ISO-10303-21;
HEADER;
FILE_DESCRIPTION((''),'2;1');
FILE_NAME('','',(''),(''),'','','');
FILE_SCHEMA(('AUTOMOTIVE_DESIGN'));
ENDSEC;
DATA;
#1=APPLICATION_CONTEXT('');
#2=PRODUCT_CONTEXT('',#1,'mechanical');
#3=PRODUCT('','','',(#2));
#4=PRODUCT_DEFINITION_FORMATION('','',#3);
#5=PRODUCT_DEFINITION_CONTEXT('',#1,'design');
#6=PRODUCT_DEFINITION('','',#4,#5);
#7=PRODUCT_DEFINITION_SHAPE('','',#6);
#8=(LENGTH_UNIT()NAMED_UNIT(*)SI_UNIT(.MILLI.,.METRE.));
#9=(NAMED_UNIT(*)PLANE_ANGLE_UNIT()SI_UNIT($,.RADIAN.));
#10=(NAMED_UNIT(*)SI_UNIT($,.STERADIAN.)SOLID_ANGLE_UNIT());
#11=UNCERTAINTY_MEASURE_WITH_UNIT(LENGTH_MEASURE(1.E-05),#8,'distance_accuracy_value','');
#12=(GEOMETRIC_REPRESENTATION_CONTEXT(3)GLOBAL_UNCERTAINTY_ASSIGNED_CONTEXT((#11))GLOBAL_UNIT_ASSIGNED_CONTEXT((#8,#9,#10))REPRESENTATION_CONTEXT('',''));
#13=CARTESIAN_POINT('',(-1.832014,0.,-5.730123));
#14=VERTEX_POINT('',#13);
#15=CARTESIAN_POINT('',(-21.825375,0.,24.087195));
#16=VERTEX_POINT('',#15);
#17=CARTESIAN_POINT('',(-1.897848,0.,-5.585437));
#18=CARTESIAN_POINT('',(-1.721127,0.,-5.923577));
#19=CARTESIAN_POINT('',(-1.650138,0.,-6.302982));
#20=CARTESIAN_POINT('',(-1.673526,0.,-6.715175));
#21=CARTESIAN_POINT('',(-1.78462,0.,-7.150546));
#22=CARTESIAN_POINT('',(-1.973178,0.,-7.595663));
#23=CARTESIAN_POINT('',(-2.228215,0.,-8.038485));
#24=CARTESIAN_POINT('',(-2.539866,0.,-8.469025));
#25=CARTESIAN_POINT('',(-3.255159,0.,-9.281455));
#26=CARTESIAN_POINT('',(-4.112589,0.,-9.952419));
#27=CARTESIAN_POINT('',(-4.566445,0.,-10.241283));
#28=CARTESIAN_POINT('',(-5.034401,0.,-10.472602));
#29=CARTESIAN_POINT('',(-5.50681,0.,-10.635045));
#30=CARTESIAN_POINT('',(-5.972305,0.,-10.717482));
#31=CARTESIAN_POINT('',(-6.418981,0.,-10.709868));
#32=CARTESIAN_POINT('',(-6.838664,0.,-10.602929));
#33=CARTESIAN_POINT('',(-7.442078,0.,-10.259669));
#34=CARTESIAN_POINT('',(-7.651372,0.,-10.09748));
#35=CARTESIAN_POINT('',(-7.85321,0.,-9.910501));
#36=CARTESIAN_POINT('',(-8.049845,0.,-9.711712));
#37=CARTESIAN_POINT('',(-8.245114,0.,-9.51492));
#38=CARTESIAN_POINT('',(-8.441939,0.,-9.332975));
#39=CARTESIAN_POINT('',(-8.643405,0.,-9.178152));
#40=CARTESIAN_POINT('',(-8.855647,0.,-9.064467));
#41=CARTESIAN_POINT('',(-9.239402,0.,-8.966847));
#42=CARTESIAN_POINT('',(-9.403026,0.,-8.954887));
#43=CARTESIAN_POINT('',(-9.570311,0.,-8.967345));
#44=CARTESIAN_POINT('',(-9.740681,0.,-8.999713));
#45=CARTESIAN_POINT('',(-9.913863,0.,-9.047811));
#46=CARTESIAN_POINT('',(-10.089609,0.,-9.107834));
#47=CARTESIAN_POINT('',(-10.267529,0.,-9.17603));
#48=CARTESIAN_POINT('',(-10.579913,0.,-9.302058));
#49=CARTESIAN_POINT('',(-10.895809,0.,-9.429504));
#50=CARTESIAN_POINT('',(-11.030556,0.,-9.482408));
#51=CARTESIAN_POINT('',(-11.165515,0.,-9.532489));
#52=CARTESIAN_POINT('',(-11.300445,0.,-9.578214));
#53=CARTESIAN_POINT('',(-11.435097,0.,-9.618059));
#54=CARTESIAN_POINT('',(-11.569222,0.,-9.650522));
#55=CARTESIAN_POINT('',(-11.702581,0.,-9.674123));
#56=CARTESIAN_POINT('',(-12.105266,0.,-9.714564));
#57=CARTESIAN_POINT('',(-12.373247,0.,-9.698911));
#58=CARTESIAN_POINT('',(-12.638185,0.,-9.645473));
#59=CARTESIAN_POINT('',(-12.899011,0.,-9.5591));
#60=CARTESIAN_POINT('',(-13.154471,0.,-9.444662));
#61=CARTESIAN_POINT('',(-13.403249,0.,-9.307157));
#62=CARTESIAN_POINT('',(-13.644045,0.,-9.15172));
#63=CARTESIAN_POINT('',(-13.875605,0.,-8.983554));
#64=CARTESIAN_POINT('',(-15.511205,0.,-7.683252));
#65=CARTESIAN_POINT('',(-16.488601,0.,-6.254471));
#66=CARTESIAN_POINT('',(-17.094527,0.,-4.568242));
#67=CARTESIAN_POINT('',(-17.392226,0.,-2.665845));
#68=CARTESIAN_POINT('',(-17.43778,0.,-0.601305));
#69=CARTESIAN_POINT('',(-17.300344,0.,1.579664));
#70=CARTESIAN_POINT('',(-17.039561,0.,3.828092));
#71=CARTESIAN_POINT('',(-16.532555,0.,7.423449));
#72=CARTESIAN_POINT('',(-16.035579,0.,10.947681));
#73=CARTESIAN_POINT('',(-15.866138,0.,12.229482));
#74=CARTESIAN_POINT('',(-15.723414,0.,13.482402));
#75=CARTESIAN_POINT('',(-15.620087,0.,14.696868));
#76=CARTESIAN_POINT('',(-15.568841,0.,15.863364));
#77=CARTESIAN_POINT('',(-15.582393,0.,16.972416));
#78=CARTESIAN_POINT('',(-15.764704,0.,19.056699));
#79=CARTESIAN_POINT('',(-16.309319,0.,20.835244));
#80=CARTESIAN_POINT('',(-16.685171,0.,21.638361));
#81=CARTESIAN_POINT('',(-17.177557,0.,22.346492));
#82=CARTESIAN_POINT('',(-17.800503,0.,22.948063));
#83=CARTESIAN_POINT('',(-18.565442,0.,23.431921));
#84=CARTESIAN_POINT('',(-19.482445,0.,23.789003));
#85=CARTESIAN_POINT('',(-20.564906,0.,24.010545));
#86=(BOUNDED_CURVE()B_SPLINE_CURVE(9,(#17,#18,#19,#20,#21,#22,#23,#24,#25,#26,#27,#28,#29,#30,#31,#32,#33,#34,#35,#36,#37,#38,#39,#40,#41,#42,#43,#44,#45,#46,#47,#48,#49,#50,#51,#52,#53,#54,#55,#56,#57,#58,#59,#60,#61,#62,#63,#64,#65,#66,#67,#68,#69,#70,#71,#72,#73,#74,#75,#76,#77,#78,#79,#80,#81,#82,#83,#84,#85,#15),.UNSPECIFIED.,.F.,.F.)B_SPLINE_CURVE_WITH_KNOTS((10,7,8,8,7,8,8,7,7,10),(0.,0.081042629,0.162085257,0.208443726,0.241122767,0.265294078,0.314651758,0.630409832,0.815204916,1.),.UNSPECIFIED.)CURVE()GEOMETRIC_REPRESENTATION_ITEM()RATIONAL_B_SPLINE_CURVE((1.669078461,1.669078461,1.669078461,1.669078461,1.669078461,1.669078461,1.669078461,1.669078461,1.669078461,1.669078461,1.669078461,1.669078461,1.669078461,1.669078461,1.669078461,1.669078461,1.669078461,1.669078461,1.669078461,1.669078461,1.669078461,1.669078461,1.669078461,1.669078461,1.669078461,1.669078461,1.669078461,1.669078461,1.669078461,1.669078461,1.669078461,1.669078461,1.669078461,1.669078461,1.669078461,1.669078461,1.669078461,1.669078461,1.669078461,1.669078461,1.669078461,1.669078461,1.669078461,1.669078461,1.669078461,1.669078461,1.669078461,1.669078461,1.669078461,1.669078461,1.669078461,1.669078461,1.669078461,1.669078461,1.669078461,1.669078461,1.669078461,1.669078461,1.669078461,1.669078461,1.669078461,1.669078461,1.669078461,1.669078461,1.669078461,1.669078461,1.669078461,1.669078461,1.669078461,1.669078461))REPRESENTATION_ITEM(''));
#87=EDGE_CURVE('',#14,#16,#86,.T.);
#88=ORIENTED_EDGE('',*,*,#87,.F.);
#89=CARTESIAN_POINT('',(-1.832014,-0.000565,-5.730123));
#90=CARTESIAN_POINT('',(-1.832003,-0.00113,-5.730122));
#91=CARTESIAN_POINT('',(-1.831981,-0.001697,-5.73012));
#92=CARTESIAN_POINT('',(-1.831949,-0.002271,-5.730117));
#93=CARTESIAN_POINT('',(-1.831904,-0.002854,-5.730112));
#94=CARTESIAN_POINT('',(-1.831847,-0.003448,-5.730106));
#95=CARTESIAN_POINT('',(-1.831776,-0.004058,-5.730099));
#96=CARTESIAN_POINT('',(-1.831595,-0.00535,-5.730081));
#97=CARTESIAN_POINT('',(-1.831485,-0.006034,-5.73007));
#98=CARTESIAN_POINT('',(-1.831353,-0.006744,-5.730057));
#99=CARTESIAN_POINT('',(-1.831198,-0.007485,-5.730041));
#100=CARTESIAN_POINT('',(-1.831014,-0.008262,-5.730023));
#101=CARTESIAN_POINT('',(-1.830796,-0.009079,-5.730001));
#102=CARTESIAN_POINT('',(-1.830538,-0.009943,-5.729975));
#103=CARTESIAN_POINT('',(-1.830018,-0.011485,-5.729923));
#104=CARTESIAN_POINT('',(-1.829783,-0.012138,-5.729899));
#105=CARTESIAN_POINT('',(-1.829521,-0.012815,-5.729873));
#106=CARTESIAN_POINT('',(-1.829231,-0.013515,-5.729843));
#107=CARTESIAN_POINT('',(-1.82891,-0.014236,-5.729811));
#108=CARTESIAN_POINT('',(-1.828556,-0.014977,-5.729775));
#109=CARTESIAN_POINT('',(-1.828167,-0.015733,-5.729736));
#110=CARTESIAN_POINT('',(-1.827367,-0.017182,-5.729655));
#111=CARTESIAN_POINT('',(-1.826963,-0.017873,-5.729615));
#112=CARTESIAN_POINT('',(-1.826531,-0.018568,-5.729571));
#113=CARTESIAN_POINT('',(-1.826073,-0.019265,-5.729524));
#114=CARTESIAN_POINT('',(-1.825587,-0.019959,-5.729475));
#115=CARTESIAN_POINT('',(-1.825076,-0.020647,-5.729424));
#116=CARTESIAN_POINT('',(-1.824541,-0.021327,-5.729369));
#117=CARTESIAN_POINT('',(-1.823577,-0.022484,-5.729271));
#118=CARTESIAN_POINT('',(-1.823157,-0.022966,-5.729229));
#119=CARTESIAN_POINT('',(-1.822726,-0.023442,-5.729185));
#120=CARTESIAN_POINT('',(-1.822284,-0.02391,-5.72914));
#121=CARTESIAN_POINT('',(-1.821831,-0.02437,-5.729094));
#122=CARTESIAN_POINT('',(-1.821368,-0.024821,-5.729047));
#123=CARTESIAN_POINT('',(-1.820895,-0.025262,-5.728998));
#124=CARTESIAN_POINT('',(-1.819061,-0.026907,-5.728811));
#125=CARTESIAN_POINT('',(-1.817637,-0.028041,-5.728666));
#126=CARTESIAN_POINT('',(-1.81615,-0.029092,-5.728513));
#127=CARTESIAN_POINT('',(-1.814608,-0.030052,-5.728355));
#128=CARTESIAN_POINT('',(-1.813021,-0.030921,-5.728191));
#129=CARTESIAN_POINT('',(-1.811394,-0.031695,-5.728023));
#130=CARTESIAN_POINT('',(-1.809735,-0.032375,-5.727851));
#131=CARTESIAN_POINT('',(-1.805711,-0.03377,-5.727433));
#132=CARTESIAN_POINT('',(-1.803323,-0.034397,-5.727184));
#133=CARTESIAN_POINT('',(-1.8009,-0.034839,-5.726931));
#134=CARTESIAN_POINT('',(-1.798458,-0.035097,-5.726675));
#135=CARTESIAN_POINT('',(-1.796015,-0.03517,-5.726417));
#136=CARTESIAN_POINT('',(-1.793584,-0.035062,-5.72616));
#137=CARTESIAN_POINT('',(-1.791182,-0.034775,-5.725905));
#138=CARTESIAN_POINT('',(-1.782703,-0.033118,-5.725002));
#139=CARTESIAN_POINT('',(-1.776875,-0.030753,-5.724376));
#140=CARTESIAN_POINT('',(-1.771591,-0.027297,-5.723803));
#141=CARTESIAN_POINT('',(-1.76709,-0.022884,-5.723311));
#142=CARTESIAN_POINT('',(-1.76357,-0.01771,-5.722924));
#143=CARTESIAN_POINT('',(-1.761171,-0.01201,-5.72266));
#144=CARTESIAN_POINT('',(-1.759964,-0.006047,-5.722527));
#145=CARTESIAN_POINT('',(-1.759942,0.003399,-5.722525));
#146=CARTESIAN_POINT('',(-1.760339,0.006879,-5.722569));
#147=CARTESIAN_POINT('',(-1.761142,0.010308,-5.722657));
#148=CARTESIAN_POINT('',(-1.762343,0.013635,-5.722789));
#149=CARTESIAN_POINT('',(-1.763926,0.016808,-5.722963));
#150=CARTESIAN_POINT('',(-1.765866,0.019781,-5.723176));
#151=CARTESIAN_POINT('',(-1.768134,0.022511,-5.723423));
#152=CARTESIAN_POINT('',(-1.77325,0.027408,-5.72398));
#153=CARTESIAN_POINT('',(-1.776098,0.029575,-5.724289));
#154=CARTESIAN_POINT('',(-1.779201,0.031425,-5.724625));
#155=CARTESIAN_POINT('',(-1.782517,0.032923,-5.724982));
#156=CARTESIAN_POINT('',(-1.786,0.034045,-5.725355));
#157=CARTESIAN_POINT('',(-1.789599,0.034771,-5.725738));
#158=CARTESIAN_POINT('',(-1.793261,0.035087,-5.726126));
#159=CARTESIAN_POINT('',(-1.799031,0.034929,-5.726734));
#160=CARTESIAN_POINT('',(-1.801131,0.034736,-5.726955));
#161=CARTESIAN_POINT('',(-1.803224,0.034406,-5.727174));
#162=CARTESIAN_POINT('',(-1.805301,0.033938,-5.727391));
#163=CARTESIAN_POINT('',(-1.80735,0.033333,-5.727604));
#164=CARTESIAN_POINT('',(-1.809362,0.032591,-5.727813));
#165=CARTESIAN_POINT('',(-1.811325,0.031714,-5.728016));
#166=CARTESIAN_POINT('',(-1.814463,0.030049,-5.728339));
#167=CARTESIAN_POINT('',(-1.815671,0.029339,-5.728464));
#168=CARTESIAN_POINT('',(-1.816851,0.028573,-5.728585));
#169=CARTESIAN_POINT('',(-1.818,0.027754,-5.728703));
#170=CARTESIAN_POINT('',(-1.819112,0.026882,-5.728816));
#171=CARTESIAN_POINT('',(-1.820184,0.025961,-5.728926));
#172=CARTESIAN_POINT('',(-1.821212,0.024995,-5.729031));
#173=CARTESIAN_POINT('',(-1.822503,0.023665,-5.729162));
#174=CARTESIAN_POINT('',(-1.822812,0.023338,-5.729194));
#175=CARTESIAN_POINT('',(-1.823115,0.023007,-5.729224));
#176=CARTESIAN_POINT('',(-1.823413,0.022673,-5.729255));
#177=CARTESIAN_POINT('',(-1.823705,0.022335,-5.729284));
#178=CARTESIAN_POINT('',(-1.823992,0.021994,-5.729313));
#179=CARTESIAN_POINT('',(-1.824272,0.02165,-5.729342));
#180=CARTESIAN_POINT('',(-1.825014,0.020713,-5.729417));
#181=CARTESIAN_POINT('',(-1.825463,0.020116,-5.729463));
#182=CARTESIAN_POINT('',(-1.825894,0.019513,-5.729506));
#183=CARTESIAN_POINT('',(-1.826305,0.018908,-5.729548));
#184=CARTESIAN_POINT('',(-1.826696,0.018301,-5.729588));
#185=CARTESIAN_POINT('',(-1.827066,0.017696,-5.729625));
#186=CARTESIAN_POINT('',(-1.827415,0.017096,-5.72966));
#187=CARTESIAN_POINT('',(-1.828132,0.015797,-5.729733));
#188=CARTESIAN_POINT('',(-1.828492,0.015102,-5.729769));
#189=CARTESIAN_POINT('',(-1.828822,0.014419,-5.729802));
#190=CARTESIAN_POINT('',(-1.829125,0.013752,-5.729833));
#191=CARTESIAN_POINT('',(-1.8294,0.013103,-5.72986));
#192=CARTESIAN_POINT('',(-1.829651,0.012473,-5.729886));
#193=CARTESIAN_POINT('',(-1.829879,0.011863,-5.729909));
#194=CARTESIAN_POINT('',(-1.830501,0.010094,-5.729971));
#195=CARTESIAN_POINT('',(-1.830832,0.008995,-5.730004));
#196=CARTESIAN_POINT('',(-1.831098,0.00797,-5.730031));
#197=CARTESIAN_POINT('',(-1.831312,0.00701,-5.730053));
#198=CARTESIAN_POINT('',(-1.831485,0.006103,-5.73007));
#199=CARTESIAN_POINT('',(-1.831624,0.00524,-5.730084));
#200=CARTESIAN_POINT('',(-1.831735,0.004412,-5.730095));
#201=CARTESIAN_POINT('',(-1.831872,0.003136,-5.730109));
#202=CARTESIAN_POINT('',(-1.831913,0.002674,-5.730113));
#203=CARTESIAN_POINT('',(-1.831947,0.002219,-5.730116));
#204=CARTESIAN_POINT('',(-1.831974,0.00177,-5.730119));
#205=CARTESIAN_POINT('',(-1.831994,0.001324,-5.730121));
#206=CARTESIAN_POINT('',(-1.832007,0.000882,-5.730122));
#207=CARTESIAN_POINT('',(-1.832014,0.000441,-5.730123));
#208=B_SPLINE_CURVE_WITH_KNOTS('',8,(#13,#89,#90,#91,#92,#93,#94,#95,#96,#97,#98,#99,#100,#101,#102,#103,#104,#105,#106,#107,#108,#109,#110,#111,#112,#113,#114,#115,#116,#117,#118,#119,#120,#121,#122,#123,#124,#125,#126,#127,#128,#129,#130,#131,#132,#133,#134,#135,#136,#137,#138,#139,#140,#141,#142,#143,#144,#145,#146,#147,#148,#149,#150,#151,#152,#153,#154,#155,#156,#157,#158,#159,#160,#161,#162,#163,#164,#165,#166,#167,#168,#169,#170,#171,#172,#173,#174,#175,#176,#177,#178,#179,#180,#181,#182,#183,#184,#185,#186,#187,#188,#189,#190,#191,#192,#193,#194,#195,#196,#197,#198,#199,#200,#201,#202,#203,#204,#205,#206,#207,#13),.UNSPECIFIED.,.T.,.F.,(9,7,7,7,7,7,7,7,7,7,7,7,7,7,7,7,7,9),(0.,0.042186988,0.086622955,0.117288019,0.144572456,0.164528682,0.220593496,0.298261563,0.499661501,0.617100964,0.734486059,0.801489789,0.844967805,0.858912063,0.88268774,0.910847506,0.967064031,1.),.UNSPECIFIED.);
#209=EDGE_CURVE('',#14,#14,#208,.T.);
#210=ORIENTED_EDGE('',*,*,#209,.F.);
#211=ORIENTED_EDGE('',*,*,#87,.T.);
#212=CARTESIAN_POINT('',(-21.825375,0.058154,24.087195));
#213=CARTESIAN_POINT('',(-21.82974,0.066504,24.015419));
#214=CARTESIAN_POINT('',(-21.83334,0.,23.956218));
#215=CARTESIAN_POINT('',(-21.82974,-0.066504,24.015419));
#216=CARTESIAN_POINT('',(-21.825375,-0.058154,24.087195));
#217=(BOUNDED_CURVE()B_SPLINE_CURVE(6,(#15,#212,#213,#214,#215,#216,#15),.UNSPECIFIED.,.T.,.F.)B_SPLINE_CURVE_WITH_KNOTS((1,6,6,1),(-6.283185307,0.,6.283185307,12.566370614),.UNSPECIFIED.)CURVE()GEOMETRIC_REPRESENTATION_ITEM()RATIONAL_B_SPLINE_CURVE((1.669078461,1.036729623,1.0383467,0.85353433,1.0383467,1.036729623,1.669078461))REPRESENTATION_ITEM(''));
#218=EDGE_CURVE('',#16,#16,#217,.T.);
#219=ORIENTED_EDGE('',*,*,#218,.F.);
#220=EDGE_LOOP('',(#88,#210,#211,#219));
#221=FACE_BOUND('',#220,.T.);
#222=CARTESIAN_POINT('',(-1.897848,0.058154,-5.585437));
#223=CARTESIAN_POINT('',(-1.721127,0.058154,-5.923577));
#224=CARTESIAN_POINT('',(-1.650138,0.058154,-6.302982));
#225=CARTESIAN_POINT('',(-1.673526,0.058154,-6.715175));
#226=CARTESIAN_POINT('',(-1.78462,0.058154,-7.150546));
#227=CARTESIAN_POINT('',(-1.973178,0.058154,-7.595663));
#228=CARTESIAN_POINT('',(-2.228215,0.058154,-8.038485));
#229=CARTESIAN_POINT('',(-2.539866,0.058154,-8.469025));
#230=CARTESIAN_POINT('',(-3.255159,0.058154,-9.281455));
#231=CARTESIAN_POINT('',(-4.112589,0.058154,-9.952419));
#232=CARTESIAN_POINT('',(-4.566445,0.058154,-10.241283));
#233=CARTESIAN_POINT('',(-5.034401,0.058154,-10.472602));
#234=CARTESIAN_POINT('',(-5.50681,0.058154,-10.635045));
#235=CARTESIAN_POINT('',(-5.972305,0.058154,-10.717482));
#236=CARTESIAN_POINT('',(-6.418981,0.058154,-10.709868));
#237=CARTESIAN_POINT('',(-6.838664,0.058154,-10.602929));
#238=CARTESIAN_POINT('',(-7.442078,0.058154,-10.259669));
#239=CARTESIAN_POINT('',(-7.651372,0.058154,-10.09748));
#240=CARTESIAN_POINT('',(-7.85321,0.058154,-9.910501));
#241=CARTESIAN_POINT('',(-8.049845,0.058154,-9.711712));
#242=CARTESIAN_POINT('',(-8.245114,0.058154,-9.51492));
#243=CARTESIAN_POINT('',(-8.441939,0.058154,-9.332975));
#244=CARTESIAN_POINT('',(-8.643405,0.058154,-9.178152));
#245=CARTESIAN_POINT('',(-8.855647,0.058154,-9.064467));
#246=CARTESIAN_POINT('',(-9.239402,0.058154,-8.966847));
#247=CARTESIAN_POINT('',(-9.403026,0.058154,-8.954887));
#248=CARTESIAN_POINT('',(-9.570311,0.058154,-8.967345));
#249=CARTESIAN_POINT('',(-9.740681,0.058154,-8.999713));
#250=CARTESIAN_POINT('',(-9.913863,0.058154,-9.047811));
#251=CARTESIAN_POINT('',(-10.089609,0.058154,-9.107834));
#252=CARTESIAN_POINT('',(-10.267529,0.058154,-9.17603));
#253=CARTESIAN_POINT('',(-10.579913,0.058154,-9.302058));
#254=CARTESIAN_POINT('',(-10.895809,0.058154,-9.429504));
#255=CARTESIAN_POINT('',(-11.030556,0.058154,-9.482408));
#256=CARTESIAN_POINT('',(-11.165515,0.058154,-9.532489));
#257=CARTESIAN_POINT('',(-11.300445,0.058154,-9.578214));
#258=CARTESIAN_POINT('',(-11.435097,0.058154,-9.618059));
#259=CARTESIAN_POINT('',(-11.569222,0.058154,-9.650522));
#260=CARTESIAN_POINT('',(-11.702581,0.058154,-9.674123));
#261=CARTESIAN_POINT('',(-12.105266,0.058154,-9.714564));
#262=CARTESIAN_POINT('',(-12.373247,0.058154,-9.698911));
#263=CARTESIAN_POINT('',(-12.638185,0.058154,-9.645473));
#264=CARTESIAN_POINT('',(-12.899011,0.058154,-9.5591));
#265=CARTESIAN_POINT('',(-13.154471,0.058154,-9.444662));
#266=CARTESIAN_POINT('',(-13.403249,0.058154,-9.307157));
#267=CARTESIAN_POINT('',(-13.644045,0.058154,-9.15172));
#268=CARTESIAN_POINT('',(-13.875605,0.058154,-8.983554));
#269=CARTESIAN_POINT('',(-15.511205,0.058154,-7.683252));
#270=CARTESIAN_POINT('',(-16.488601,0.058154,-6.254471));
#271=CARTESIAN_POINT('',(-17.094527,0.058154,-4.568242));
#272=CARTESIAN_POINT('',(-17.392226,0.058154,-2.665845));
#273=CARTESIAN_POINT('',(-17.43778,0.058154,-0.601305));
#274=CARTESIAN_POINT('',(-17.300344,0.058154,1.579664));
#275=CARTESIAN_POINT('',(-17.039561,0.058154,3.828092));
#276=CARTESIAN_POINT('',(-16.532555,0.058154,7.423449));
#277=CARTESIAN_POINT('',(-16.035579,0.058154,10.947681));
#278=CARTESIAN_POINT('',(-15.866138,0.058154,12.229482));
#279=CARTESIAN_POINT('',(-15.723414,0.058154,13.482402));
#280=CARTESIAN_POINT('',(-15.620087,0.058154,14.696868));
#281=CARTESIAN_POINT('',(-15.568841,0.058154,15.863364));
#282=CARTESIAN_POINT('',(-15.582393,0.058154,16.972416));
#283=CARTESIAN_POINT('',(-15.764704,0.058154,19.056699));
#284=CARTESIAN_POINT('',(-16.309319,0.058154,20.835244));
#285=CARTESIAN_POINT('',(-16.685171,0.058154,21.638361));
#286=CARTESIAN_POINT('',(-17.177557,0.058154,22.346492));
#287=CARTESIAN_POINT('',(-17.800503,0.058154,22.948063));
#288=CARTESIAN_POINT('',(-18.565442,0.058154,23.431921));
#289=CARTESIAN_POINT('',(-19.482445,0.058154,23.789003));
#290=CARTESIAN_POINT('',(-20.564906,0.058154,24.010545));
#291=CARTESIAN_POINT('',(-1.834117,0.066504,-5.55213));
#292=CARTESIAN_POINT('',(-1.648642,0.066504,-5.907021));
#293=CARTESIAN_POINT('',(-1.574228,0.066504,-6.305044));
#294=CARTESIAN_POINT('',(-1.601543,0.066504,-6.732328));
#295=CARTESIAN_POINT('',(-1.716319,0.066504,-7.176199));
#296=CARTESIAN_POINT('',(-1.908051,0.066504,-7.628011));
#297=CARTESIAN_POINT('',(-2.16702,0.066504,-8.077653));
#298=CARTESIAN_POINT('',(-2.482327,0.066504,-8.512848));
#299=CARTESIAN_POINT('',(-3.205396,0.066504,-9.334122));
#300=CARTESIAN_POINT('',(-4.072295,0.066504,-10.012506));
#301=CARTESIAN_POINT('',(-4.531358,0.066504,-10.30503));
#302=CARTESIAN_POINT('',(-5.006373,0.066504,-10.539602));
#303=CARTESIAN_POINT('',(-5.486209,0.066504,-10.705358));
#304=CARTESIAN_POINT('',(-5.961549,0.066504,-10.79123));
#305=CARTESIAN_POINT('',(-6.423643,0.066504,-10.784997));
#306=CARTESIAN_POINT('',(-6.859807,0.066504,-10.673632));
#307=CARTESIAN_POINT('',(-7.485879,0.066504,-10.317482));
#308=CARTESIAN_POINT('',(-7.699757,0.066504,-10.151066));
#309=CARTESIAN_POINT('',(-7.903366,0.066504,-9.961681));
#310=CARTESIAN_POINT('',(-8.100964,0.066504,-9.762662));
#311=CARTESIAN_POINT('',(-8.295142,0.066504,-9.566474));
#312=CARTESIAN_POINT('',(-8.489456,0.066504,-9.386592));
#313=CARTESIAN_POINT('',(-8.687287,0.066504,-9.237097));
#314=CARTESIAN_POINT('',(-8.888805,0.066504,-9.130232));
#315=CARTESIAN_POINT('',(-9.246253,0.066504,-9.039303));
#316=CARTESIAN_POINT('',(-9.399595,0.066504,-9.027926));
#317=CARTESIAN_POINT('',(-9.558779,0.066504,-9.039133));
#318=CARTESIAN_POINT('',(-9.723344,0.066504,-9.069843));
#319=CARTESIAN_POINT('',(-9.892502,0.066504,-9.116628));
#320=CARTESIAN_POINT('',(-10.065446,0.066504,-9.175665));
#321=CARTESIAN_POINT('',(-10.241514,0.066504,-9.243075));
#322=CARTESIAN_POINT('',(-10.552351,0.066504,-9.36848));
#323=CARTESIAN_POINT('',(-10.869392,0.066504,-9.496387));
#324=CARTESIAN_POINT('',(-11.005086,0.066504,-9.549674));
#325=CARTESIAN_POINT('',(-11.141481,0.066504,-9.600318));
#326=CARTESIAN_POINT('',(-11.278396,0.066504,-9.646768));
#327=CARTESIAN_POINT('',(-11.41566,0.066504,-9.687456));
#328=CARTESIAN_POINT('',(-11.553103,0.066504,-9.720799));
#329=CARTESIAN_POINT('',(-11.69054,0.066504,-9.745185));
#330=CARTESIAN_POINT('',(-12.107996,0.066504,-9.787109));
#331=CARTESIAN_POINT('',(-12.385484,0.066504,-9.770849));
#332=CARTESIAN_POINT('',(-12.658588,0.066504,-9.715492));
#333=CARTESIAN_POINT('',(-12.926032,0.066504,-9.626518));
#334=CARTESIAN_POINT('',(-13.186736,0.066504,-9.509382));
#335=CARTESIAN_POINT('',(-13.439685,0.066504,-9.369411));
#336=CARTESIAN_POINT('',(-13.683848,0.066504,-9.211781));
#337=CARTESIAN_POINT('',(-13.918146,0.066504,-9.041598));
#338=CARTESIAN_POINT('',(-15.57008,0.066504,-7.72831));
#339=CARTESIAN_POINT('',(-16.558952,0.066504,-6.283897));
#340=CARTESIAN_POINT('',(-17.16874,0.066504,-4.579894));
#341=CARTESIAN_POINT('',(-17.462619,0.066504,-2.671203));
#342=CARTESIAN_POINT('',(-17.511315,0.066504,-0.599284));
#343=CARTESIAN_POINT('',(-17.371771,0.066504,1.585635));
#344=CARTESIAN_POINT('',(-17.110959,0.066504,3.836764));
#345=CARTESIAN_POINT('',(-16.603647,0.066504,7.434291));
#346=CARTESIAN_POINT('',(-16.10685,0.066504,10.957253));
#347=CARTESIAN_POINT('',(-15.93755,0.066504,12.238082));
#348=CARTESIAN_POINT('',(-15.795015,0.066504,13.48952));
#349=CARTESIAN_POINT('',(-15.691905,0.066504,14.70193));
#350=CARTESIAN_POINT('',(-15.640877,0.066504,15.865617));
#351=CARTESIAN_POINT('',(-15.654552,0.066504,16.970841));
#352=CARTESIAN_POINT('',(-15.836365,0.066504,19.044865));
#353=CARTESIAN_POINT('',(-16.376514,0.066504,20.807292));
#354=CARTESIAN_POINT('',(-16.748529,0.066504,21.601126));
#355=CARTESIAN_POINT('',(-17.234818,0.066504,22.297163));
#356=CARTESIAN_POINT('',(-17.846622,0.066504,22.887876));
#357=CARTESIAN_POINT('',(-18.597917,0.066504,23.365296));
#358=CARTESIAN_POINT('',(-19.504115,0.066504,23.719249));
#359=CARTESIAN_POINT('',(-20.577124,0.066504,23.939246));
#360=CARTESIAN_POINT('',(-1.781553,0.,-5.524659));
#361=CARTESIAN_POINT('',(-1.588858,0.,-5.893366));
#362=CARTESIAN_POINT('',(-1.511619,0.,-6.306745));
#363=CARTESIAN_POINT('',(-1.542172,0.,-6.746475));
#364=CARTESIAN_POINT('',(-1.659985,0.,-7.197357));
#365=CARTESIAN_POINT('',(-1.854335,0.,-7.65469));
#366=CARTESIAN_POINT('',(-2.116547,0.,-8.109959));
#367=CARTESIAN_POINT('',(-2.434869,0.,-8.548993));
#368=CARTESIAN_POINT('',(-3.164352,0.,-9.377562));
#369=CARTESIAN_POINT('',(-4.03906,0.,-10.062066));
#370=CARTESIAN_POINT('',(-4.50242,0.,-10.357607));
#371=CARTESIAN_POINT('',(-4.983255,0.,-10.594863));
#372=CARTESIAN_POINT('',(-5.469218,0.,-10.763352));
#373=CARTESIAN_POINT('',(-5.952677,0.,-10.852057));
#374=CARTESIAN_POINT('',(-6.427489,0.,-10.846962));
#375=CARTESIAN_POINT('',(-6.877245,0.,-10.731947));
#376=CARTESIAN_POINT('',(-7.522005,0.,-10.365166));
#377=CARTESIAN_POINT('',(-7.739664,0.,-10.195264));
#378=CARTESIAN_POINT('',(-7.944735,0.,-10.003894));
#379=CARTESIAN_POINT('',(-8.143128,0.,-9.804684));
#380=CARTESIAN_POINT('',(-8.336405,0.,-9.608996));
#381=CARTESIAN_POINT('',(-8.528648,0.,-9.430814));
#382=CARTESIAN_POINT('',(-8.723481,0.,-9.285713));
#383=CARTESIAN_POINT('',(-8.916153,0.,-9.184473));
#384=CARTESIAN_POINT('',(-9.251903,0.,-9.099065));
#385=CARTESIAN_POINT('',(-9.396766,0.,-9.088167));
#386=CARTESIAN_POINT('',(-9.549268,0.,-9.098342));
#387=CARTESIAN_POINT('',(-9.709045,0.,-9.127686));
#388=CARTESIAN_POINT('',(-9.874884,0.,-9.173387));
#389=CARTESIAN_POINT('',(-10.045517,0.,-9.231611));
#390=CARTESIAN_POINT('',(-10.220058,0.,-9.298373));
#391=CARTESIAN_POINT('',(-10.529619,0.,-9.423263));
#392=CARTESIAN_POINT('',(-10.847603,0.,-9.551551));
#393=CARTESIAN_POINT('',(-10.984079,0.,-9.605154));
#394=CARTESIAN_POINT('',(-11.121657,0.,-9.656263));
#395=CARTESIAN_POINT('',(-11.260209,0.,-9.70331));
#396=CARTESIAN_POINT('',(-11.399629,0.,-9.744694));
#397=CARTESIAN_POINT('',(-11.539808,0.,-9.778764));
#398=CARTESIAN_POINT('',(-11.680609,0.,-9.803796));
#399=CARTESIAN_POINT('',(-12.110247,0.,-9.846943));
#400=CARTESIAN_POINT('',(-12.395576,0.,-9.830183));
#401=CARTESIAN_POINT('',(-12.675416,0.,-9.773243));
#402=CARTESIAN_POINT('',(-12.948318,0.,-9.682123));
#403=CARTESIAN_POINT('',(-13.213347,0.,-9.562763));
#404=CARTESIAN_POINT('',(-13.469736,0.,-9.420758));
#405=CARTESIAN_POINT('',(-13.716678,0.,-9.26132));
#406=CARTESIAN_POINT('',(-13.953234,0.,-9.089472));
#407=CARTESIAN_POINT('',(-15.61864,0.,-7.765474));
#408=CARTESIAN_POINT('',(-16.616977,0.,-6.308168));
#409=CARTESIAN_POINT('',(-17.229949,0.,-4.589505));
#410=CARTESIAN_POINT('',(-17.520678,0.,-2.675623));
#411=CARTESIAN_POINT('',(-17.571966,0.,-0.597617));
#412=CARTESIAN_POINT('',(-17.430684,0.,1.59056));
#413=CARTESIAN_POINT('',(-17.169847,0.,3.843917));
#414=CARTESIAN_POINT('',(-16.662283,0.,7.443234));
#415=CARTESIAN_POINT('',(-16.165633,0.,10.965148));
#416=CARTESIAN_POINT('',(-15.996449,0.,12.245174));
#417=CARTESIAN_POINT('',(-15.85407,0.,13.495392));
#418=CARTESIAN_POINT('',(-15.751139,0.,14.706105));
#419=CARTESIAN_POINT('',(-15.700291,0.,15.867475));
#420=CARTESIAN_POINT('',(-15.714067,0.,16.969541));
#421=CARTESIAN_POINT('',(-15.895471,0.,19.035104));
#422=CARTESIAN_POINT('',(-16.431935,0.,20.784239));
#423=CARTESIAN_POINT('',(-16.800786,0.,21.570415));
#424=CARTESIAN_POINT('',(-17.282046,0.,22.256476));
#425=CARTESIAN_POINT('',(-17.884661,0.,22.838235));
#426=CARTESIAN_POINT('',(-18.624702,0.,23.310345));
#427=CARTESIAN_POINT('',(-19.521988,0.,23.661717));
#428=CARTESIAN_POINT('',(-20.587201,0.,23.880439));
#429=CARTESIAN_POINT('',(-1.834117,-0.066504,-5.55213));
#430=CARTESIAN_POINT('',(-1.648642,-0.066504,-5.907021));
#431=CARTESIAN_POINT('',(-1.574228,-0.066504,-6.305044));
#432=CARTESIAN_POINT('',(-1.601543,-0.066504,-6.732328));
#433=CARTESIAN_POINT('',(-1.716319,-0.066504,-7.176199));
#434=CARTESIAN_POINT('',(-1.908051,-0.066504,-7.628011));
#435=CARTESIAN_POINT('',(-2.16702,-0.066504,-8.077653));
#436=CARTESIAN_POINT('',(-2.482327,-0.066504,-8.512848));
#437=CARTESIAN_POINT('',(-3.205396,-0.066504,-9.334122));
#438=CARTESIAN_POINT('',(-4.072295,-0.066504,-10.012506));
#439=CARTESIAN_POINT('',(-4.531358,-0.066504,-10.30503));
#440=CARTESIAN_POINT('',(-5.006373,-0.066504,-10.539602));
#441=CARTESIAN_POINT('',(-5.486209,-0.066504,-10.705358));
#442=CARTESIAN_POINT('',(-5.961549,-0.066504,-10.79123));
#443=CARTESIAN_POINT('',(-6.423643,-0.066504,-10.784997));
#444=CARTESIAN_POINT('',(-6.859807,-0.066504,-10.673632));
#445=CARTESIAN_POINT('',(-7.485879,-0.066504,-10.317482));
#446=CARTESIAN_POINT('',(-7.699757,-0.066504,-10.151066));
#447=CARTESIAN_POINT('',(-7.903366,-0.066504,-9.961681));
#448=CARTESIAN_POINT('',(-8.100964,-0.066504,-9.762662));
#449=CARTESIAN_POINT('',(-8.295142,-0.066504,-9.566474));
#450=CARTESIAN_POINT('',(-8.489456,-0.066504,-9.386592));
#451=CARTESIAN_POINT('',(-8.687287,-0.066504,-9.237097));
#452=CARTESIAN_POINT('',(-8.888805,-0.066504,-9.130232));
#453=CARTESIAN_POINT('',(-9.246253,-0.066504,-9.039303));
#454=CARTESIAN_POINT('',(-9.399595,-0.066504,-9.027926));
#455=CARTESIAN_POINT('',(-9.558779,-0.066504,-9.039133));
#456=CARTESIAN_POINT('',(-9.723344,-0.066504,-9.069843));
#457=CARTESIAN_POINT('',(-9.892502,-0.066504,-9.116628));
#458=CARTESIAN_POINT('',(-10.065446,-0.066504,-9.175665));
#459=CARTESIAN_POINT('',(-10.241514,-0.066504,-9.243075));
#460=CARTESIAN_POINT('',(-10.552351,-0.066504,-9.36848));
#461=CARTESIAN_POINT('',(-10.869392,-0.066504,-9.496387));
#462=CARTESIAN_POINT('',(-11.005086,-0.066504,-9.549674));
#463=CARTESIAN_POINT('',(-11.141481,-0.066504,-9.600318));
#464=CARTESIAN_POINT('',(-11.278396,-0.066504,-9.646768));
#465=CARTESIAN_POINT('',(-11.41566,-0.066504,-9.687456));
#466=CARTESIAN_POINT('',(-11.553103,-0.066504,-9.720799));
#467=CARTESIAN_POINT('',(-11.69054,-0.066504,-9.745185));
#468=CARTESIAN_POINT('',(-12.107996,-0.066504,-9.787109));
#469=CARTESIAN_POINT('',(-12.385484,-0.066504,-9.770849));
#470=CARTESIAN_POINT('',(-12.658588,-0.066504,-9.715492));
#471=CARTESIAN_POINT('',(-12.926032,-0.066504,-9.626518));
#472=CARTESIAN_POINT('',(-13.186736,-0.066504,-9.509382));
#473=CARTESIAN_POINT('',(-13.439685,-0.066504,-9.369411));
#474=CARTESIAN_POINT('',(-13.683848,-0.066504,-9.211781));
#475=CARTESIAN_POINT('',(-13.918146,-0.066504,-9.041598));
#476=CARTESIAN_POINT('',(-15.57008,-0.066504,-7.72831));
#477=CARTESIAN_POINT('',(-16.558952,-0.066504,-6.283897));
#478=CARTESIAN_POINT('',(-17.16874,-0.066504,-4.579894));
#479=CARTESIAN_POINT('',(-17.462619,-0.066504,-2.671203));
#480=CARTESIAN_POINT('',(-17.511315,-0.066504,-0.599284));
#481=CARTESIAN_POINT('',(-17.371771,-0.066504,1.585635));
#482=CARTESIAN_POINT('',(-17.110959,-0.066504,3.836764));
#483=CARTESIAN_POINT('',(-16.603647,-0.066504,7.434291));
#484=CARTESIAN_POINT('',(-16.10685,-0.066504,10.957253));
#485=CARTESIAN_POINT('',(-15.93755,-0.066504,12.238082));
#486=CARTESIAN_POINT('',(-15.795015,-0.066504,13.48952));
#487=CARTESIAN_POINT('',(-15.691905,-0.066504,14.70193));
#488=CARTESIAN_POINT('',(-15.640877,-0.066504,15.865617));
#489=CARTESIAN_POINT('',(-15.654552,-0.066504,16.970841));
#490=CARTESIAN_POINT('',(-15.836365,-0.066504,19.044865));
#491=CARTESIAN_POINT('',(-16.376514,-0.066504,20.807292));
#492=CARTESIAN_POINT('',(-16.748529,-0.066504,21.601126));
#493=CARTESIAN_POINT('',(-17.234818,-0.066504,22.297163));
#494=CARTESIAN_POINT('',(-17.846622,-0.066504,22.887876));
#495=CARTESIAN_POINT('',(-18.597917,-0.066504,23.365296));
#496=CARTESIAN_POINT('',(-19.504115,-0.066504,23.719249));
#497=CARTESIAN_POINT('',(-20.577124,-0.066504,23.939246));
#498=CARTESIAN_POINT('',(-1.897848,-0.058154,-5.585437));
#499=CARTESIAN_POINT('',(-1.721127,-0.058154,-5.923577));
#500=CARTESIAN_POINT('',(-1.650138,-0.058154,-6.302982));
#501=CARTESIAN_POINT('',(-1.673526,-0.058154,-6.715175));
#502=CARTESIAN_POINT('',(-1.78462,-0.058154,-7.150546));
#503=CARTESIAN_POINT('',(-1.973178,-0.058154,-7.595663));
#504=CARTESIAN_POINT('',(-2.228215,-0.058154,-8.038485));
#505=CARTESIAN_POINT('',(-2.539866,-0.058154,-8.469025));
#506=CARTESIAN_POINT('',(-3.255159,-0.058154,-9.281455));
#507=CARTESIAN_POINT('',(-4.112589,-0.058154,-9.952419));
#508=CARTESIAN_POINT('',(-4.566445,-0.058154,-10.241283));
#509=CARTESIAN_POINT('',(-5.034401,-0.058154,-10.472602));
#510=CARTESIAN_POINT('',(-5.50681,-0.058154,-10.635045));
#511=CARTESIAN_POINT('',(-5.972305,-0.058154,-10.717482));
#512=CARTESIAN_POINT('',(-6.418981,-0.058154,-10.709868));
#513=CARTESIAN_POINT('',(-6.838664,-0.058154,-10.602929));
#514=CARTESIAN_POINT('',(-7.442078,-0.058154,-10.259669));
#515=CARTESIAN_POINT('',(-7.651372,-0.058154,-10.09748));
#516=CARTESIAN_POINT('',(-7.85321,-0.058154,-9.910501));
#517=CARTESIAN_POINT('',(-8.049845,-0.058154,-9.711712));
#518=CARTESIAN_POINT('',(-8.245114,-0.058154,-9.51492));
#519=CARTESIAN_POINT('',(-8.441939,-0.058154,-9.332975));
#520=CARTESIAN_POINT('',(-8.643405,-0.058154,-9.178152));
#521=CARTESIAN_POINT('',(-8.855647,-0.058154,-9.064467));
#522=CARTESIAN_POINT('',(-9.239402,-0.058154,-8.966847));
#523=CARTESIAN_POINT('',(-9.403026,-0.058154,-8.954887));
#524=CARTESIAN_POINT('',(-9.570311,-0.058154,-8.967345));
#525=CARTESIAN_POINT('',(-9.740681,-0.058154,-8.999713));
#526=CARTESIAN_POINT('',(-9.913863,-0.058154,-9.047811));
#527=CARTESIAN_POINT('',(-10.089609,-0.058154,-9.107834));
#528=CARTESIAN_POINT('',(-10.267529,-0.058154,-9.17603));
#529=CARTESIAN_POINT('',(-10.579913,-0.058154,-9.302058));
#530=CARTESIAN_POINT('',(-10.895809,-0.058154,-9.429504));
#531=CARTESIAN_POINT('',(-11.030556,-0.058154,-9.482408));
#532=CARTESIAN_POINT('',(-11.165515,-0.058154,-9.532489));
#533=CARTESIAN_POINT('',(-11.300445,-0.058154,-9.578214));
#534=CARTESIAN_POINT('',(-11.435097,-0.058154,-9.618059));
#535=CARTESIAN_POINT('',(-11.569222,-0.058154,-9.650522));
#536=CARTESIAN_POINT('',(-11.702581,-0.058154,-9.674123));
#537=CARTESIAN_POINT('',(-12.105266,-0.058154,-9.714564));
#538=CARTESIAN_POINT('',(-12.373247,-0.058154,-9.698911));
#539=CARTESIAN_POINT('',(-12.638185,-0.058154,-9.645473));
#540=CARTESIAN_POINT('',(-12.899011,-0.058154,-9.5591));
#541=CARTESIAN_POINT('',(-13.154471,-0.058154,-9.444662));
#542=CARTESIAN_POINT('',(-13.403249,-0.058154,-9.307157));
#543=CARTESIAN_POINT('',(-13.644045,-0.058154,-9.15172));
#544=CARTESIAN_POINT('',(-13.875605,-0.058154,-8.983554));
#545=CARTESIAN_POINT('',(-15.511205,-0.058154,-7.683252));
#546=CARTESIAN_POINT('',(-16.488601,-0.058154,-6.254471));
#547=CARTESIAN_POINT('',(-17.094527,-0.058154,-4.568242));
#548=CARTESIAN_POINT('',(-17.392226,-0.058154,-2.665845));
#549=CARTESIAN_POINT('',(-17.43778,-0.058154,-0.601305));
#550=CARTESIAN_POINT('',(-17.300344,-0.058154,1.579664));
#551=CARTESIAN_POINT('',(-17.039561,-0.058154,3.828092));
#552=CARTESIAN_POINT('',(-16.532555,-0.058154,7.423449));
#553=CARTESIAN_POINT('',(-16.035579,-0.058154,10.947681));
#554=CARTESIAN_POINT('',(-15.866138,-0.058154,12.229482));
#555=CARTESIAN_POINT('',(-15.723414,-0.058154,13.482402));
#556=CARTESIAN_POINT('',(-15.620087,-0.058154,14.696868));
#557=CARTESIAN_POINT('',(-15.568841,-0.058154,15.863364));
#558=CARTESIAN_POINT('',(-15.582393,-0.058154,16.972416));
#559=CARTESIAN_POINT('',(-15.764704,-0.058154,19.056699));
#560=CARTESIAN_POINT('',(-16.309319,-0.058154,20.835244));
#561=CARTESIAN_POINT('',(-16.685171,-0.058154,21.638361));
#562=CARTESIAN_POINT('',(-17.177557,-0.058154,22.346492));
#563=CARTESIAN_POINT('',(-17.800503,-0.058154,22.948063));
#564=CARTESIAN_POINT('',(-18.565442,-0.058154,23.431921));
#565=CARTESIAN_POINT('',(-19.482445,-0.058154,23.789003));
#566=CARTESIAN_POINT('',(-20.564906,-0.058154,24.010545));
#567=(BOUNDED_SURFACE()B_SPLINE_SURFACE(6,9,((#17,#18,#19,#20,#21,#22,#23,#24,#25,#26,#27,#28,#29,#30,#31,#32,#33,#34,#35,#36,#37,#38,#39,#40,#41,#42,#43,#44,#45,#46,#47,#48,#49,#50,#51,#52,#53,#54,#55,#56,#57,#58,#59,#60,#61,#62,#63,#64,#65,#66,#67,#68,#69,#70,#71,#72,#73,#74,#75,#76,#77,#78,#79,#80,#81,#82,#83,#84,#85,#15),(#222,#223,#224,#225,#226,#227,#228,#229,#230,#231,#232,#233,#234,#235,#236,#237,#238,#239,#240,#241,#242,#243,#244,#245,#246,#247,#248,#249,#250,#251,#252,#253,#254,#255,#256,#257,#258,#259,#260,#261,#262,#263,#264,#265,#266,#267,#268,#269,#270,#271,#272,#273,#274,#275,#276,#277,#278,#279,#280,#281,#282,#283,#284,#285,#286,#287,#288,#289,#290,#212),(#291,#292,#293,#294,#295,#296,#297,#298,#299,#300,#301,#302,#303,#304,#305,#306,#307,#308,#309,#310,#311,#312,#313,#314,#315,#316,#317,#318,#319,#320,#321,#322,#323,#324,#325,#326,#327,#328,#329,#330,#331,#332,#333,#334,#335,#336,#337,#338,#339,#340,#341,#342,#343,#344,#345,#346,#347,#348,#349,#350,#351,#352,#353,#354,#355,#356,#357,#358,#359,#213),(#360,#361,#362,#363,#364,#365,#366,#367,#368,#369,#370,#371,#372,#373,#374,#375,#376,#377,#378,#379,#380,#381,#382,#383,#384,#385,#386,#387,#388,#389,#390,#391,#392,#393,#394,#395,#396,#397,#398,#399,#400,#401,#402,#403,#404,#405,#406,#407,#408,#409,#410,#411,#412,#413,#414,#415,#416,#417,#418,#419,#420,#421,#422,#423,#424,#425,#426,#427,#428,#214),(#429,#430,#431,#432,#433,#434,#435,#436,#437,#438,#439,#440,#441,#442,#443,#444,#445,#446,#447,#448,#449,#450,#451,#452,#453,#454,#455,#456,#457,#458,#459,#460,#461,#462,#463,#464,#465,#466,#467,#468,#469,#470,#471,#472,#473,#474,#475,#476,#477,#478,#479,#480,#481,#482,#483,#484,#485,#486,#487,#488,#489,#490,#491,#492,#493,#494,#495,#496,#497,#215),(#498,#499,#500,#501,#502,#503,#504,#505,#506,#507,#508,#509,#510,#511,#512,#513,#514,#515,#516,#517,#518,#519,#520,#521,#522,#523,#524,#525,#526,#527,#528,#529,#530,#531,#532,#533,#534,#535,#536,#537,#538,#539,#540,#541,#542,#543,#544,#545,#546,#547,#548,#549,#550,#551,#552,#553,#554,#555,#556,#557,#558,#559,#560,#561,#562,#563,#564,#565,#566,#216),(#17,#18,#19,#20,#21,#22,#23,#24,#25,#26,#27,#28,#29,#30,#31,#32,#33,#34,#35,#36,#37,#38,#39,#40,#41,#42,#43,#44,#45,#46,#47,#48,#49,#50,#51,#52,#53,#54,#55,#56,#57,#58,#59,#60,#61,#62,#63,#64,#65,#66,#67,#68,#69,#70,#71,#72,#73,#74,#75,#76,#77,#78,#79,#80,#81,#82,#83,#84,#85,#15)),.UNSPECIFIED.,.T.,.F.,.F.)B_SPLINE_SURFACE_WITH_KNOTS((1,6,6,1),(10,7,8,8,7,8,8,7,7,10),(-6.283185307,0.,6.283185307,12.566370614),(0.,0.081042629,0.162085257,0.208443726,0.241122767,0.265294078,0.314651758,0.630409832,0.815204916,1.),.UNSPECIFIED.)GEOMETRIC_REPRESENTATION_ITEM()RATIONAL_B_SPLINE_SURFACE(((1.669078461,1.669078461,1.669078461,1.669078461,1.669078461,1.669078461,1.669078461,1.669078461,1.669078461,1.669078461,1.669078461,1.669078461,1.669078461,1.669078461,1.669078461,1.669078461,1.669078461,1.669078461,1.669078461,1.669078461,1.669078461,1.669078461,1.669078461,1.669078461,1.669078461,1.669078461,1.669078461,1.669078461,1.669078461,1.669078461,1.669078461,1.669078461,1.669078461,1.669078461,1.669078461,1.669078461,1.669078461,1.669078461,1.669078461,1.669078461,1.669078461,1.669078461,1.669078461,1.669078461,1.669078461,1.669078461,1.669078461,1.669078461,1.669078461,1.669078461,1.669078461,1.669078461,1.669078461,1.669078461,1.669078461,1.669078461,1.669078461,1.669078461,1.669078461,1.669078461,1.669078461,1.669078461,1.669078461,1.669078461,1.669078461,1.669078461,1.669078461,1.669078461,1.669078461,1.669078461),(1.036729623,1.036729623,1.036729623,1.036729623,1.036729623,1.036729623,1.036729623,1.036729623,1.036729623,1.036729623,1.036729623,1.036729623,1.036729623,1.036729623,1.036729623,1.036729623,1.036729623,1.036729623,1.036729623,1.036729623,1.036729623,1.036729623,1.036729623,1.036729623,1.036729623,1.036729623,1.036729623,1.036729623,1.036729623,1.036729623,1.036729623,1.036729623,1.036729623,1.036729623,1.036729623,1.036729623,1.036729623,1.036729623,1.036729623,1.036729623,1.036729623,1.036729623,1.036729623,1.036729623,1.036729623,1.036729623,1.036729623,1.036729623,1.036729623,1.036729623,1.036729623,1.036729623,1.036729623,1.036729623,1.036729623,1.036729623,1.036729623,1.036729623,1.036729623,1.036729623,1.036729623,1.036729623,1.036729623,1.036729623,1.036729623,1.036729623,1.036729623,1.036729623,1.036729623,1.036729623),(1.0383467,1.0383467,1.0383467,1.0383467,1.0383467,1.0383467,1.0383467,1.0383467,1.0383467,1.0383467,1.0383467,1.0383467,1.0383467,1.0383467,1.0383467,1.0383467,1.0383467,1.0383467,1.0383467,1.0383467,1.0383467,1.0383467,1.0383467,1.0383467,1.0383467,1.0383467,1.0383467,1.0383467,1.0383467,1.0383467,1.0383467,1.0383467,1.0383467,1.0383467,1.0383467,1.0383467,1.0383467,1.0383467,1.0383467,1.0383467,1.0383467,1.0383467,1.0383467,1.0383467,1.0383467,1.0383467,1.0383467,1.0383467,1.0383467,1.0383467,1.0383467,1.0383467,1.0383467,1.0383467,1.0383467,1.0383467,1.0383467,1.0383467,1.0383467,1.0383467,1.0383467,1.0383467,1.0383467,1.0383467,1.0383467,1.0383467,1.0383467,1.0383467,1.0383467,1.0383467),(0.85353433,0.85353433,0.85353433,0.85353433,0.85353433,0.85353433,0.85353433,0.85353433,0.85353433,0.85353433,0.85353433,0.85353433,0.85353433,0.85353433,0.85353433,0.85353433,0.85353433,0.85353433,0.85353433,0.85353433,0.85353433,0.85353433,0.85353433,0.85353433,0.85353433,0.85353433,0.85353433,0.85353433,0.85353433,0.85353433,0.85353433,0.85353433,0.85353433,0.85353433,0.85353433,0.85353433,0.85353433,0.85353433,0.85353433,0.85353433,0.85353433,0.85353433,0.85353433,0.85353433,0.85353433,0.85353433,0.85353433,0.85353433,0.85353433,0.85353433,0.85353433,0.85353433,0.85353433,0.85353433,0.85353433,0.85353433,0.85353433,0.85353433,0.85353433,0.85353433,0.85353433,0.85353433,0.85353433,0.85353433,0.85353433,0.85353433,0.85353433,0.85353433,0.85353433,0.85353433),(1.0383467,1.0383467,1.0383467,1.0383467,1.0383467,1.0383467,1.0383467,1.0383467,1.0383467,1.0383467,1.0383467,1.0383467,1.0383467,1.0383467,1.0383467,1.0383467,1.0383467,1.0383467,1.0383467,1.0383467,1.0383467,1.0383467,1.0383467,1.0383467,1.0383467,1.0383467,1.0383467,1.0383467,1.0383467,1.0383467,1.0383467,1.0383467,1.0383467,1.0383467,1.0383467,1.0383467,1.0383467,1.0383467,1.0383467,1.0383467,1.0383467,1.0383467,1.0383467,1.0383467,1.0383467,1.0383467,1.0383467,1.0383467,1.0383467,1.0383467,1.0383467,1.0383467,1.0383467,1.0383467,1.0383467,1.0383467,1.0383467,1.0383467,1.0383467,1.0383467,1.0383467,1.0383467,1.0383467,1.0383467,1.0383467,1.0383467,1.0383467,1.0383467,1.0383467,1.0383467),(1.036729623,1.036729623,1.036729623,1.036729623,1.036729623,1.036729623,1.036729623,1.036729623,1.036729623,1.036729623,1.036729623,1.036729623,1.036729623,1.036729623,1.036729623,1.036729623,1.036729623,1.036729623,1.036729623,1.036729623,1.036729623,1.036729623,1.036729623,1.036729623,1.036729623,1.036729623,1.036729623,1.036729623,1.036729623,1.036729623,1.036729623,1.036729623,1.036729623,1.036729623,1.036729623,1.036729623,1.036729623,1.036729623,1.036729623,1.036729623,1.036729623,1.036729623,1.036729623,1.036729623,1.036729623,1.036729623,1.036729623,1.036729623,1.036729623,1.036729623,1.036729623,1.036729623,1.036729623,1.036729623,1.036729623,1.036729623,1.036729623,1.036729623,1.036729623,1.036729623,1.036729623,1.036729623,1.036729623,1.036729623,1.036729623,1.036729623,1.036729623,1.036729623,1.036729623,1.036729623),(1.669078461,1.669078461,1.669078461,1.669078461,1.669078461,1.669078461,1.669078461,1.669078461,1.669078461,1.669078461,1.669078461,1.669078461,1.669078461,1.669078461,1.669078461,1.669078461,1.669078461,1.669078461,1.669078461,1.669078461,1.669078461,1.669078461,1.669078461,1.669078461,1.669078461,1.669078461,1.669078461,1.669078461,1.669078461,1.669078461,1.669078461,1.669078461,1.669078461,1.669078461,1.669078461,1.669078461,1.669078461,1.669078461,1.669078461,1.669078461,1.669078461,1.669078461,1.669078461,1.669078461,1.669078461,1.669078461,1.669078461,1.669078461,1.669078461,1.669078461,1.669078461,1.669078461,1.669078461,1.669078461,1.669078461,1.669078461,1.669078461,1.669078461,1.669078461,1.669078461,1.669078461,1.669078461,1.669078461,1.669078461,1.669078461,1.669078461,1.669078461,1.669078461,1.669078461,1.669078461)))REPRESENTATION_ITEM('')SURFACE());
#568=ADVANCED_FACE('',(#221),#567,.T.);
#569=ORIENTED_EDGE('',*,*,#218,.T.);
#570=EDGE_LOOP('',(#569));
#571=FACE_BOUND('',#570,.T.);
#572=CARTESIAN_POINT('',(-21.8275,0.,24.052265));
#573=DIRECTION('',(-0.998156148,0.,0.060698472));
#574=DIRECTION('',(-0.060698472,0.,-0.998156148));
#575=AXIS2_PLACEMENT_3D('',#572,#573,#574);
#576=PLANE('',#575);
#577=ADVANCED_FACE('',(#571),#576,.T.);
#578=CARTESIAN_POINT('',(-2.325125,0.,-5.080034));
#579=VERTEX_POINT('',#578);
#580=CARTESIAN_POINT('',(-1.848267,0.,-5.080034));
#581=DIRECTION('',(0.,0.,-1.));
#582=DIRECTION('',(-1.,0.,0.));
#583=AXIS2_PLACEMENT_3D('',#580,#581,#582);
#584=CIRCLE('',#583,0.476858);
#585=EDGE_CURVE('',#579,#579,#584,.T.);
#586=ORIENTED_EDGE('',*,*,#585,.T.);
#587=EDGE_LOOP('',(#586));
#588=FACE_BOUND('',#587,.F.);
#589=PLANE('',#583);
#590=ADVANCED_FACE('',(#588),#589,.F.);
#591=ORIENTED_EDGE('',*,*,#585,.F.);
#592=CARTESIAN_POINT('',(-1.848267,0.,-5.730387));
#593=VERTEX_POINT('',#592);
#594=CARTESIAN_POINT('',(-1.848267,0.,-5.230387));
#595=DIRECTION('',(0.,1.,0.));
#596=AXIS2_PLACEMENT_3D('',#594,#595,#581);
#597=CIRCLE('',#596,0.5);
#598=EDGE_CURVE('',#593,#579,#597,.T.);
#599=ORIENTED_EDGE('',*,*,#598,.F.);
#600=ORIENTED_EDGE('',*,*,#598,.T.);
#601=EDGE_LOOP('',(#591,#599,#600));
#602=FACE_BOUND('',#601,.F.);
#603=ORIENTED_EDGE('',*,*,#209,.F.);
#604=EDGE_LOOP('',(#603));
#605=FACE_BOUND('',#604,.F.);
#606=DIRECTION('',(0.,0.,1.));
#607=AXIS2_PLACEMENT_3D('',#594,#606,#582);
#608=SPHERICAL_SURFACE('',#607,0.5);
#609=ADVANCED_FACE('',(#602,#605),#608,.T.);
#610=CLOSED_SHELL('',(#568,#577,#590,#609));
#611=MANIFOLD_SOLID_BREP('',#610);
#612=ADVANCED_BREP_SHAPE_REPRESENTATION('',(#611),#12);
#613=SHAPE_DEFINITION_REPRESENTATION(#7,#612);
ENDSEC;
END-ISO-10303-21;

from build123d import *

# Parameters (mm, degrees)
SWEEP1_PROFILE_R = 0.035


with BuildPart() as part:
    # Sketch1 → Revolve3 (revolve)
    with BuildSketch(Plane(origin=(0, 0, 0), x_dir=(1, 0, 0), z_dir=(0, 1, 0))):
        with BuildLine():
            Line((-2.325124988, 5.080034397), (-1.848266513, 5.080034397))
            Line((-1.848266513, 5.080034397), (-1.848266513, 5.730387297))
            ThreePointArc((-1.848266513, 5.730387297), (-2.251488815, 5.526042121), (-2.325124988, 5.080034397))
        make_face()
    revolve(axis=Axis((-1.848266513, 0, -5.080034397), (0, 0, -1)))

    # Sweep1: sweep along a path in Sketch2
    with BuildLine() as sweep1_path:  # in the path sketch's own coordinates; laid on its plane below (add() does not lay a ready-made edge on the line's plane)
        add(Edge.make_bspline(
            [(-1.866828659, 5.569225919), (-0.780938989, 7.646983524), (-6.071231512, 12.922326036), (-9.081764752, 8.193910216), (-11.741085724, 10.312000481), (-24.491953187, 3.254664857), (-7.84594348, -23.20203285), (-21.827499915, -24.052259654)],
            knots=[0, 0, 0, 0, 0.162085257, 0.208443726, 0.265294078, 0.314651758, 1, 1, 1, 1], degree=3))
    # Sweep1 profile (on start of the path) → Sweep1 (sweep)
    with BuildSketch(Plane(origin=(-1.866828659, 0, -5.569225919), x_dir=(-0.8862623728587391, 0, -0.46318355589851984), z_dir=(0.46318355589851984, 0, -0.8862623728587391))):
        Circle(SWEEP1_PROFILE_R)
    sweep(path=Plane(origin=(0, 0, 0), x_dir=(1, 0, 0), z_dir=(0, 1, 0)) * sweep1_path.line)


solid = part.part
